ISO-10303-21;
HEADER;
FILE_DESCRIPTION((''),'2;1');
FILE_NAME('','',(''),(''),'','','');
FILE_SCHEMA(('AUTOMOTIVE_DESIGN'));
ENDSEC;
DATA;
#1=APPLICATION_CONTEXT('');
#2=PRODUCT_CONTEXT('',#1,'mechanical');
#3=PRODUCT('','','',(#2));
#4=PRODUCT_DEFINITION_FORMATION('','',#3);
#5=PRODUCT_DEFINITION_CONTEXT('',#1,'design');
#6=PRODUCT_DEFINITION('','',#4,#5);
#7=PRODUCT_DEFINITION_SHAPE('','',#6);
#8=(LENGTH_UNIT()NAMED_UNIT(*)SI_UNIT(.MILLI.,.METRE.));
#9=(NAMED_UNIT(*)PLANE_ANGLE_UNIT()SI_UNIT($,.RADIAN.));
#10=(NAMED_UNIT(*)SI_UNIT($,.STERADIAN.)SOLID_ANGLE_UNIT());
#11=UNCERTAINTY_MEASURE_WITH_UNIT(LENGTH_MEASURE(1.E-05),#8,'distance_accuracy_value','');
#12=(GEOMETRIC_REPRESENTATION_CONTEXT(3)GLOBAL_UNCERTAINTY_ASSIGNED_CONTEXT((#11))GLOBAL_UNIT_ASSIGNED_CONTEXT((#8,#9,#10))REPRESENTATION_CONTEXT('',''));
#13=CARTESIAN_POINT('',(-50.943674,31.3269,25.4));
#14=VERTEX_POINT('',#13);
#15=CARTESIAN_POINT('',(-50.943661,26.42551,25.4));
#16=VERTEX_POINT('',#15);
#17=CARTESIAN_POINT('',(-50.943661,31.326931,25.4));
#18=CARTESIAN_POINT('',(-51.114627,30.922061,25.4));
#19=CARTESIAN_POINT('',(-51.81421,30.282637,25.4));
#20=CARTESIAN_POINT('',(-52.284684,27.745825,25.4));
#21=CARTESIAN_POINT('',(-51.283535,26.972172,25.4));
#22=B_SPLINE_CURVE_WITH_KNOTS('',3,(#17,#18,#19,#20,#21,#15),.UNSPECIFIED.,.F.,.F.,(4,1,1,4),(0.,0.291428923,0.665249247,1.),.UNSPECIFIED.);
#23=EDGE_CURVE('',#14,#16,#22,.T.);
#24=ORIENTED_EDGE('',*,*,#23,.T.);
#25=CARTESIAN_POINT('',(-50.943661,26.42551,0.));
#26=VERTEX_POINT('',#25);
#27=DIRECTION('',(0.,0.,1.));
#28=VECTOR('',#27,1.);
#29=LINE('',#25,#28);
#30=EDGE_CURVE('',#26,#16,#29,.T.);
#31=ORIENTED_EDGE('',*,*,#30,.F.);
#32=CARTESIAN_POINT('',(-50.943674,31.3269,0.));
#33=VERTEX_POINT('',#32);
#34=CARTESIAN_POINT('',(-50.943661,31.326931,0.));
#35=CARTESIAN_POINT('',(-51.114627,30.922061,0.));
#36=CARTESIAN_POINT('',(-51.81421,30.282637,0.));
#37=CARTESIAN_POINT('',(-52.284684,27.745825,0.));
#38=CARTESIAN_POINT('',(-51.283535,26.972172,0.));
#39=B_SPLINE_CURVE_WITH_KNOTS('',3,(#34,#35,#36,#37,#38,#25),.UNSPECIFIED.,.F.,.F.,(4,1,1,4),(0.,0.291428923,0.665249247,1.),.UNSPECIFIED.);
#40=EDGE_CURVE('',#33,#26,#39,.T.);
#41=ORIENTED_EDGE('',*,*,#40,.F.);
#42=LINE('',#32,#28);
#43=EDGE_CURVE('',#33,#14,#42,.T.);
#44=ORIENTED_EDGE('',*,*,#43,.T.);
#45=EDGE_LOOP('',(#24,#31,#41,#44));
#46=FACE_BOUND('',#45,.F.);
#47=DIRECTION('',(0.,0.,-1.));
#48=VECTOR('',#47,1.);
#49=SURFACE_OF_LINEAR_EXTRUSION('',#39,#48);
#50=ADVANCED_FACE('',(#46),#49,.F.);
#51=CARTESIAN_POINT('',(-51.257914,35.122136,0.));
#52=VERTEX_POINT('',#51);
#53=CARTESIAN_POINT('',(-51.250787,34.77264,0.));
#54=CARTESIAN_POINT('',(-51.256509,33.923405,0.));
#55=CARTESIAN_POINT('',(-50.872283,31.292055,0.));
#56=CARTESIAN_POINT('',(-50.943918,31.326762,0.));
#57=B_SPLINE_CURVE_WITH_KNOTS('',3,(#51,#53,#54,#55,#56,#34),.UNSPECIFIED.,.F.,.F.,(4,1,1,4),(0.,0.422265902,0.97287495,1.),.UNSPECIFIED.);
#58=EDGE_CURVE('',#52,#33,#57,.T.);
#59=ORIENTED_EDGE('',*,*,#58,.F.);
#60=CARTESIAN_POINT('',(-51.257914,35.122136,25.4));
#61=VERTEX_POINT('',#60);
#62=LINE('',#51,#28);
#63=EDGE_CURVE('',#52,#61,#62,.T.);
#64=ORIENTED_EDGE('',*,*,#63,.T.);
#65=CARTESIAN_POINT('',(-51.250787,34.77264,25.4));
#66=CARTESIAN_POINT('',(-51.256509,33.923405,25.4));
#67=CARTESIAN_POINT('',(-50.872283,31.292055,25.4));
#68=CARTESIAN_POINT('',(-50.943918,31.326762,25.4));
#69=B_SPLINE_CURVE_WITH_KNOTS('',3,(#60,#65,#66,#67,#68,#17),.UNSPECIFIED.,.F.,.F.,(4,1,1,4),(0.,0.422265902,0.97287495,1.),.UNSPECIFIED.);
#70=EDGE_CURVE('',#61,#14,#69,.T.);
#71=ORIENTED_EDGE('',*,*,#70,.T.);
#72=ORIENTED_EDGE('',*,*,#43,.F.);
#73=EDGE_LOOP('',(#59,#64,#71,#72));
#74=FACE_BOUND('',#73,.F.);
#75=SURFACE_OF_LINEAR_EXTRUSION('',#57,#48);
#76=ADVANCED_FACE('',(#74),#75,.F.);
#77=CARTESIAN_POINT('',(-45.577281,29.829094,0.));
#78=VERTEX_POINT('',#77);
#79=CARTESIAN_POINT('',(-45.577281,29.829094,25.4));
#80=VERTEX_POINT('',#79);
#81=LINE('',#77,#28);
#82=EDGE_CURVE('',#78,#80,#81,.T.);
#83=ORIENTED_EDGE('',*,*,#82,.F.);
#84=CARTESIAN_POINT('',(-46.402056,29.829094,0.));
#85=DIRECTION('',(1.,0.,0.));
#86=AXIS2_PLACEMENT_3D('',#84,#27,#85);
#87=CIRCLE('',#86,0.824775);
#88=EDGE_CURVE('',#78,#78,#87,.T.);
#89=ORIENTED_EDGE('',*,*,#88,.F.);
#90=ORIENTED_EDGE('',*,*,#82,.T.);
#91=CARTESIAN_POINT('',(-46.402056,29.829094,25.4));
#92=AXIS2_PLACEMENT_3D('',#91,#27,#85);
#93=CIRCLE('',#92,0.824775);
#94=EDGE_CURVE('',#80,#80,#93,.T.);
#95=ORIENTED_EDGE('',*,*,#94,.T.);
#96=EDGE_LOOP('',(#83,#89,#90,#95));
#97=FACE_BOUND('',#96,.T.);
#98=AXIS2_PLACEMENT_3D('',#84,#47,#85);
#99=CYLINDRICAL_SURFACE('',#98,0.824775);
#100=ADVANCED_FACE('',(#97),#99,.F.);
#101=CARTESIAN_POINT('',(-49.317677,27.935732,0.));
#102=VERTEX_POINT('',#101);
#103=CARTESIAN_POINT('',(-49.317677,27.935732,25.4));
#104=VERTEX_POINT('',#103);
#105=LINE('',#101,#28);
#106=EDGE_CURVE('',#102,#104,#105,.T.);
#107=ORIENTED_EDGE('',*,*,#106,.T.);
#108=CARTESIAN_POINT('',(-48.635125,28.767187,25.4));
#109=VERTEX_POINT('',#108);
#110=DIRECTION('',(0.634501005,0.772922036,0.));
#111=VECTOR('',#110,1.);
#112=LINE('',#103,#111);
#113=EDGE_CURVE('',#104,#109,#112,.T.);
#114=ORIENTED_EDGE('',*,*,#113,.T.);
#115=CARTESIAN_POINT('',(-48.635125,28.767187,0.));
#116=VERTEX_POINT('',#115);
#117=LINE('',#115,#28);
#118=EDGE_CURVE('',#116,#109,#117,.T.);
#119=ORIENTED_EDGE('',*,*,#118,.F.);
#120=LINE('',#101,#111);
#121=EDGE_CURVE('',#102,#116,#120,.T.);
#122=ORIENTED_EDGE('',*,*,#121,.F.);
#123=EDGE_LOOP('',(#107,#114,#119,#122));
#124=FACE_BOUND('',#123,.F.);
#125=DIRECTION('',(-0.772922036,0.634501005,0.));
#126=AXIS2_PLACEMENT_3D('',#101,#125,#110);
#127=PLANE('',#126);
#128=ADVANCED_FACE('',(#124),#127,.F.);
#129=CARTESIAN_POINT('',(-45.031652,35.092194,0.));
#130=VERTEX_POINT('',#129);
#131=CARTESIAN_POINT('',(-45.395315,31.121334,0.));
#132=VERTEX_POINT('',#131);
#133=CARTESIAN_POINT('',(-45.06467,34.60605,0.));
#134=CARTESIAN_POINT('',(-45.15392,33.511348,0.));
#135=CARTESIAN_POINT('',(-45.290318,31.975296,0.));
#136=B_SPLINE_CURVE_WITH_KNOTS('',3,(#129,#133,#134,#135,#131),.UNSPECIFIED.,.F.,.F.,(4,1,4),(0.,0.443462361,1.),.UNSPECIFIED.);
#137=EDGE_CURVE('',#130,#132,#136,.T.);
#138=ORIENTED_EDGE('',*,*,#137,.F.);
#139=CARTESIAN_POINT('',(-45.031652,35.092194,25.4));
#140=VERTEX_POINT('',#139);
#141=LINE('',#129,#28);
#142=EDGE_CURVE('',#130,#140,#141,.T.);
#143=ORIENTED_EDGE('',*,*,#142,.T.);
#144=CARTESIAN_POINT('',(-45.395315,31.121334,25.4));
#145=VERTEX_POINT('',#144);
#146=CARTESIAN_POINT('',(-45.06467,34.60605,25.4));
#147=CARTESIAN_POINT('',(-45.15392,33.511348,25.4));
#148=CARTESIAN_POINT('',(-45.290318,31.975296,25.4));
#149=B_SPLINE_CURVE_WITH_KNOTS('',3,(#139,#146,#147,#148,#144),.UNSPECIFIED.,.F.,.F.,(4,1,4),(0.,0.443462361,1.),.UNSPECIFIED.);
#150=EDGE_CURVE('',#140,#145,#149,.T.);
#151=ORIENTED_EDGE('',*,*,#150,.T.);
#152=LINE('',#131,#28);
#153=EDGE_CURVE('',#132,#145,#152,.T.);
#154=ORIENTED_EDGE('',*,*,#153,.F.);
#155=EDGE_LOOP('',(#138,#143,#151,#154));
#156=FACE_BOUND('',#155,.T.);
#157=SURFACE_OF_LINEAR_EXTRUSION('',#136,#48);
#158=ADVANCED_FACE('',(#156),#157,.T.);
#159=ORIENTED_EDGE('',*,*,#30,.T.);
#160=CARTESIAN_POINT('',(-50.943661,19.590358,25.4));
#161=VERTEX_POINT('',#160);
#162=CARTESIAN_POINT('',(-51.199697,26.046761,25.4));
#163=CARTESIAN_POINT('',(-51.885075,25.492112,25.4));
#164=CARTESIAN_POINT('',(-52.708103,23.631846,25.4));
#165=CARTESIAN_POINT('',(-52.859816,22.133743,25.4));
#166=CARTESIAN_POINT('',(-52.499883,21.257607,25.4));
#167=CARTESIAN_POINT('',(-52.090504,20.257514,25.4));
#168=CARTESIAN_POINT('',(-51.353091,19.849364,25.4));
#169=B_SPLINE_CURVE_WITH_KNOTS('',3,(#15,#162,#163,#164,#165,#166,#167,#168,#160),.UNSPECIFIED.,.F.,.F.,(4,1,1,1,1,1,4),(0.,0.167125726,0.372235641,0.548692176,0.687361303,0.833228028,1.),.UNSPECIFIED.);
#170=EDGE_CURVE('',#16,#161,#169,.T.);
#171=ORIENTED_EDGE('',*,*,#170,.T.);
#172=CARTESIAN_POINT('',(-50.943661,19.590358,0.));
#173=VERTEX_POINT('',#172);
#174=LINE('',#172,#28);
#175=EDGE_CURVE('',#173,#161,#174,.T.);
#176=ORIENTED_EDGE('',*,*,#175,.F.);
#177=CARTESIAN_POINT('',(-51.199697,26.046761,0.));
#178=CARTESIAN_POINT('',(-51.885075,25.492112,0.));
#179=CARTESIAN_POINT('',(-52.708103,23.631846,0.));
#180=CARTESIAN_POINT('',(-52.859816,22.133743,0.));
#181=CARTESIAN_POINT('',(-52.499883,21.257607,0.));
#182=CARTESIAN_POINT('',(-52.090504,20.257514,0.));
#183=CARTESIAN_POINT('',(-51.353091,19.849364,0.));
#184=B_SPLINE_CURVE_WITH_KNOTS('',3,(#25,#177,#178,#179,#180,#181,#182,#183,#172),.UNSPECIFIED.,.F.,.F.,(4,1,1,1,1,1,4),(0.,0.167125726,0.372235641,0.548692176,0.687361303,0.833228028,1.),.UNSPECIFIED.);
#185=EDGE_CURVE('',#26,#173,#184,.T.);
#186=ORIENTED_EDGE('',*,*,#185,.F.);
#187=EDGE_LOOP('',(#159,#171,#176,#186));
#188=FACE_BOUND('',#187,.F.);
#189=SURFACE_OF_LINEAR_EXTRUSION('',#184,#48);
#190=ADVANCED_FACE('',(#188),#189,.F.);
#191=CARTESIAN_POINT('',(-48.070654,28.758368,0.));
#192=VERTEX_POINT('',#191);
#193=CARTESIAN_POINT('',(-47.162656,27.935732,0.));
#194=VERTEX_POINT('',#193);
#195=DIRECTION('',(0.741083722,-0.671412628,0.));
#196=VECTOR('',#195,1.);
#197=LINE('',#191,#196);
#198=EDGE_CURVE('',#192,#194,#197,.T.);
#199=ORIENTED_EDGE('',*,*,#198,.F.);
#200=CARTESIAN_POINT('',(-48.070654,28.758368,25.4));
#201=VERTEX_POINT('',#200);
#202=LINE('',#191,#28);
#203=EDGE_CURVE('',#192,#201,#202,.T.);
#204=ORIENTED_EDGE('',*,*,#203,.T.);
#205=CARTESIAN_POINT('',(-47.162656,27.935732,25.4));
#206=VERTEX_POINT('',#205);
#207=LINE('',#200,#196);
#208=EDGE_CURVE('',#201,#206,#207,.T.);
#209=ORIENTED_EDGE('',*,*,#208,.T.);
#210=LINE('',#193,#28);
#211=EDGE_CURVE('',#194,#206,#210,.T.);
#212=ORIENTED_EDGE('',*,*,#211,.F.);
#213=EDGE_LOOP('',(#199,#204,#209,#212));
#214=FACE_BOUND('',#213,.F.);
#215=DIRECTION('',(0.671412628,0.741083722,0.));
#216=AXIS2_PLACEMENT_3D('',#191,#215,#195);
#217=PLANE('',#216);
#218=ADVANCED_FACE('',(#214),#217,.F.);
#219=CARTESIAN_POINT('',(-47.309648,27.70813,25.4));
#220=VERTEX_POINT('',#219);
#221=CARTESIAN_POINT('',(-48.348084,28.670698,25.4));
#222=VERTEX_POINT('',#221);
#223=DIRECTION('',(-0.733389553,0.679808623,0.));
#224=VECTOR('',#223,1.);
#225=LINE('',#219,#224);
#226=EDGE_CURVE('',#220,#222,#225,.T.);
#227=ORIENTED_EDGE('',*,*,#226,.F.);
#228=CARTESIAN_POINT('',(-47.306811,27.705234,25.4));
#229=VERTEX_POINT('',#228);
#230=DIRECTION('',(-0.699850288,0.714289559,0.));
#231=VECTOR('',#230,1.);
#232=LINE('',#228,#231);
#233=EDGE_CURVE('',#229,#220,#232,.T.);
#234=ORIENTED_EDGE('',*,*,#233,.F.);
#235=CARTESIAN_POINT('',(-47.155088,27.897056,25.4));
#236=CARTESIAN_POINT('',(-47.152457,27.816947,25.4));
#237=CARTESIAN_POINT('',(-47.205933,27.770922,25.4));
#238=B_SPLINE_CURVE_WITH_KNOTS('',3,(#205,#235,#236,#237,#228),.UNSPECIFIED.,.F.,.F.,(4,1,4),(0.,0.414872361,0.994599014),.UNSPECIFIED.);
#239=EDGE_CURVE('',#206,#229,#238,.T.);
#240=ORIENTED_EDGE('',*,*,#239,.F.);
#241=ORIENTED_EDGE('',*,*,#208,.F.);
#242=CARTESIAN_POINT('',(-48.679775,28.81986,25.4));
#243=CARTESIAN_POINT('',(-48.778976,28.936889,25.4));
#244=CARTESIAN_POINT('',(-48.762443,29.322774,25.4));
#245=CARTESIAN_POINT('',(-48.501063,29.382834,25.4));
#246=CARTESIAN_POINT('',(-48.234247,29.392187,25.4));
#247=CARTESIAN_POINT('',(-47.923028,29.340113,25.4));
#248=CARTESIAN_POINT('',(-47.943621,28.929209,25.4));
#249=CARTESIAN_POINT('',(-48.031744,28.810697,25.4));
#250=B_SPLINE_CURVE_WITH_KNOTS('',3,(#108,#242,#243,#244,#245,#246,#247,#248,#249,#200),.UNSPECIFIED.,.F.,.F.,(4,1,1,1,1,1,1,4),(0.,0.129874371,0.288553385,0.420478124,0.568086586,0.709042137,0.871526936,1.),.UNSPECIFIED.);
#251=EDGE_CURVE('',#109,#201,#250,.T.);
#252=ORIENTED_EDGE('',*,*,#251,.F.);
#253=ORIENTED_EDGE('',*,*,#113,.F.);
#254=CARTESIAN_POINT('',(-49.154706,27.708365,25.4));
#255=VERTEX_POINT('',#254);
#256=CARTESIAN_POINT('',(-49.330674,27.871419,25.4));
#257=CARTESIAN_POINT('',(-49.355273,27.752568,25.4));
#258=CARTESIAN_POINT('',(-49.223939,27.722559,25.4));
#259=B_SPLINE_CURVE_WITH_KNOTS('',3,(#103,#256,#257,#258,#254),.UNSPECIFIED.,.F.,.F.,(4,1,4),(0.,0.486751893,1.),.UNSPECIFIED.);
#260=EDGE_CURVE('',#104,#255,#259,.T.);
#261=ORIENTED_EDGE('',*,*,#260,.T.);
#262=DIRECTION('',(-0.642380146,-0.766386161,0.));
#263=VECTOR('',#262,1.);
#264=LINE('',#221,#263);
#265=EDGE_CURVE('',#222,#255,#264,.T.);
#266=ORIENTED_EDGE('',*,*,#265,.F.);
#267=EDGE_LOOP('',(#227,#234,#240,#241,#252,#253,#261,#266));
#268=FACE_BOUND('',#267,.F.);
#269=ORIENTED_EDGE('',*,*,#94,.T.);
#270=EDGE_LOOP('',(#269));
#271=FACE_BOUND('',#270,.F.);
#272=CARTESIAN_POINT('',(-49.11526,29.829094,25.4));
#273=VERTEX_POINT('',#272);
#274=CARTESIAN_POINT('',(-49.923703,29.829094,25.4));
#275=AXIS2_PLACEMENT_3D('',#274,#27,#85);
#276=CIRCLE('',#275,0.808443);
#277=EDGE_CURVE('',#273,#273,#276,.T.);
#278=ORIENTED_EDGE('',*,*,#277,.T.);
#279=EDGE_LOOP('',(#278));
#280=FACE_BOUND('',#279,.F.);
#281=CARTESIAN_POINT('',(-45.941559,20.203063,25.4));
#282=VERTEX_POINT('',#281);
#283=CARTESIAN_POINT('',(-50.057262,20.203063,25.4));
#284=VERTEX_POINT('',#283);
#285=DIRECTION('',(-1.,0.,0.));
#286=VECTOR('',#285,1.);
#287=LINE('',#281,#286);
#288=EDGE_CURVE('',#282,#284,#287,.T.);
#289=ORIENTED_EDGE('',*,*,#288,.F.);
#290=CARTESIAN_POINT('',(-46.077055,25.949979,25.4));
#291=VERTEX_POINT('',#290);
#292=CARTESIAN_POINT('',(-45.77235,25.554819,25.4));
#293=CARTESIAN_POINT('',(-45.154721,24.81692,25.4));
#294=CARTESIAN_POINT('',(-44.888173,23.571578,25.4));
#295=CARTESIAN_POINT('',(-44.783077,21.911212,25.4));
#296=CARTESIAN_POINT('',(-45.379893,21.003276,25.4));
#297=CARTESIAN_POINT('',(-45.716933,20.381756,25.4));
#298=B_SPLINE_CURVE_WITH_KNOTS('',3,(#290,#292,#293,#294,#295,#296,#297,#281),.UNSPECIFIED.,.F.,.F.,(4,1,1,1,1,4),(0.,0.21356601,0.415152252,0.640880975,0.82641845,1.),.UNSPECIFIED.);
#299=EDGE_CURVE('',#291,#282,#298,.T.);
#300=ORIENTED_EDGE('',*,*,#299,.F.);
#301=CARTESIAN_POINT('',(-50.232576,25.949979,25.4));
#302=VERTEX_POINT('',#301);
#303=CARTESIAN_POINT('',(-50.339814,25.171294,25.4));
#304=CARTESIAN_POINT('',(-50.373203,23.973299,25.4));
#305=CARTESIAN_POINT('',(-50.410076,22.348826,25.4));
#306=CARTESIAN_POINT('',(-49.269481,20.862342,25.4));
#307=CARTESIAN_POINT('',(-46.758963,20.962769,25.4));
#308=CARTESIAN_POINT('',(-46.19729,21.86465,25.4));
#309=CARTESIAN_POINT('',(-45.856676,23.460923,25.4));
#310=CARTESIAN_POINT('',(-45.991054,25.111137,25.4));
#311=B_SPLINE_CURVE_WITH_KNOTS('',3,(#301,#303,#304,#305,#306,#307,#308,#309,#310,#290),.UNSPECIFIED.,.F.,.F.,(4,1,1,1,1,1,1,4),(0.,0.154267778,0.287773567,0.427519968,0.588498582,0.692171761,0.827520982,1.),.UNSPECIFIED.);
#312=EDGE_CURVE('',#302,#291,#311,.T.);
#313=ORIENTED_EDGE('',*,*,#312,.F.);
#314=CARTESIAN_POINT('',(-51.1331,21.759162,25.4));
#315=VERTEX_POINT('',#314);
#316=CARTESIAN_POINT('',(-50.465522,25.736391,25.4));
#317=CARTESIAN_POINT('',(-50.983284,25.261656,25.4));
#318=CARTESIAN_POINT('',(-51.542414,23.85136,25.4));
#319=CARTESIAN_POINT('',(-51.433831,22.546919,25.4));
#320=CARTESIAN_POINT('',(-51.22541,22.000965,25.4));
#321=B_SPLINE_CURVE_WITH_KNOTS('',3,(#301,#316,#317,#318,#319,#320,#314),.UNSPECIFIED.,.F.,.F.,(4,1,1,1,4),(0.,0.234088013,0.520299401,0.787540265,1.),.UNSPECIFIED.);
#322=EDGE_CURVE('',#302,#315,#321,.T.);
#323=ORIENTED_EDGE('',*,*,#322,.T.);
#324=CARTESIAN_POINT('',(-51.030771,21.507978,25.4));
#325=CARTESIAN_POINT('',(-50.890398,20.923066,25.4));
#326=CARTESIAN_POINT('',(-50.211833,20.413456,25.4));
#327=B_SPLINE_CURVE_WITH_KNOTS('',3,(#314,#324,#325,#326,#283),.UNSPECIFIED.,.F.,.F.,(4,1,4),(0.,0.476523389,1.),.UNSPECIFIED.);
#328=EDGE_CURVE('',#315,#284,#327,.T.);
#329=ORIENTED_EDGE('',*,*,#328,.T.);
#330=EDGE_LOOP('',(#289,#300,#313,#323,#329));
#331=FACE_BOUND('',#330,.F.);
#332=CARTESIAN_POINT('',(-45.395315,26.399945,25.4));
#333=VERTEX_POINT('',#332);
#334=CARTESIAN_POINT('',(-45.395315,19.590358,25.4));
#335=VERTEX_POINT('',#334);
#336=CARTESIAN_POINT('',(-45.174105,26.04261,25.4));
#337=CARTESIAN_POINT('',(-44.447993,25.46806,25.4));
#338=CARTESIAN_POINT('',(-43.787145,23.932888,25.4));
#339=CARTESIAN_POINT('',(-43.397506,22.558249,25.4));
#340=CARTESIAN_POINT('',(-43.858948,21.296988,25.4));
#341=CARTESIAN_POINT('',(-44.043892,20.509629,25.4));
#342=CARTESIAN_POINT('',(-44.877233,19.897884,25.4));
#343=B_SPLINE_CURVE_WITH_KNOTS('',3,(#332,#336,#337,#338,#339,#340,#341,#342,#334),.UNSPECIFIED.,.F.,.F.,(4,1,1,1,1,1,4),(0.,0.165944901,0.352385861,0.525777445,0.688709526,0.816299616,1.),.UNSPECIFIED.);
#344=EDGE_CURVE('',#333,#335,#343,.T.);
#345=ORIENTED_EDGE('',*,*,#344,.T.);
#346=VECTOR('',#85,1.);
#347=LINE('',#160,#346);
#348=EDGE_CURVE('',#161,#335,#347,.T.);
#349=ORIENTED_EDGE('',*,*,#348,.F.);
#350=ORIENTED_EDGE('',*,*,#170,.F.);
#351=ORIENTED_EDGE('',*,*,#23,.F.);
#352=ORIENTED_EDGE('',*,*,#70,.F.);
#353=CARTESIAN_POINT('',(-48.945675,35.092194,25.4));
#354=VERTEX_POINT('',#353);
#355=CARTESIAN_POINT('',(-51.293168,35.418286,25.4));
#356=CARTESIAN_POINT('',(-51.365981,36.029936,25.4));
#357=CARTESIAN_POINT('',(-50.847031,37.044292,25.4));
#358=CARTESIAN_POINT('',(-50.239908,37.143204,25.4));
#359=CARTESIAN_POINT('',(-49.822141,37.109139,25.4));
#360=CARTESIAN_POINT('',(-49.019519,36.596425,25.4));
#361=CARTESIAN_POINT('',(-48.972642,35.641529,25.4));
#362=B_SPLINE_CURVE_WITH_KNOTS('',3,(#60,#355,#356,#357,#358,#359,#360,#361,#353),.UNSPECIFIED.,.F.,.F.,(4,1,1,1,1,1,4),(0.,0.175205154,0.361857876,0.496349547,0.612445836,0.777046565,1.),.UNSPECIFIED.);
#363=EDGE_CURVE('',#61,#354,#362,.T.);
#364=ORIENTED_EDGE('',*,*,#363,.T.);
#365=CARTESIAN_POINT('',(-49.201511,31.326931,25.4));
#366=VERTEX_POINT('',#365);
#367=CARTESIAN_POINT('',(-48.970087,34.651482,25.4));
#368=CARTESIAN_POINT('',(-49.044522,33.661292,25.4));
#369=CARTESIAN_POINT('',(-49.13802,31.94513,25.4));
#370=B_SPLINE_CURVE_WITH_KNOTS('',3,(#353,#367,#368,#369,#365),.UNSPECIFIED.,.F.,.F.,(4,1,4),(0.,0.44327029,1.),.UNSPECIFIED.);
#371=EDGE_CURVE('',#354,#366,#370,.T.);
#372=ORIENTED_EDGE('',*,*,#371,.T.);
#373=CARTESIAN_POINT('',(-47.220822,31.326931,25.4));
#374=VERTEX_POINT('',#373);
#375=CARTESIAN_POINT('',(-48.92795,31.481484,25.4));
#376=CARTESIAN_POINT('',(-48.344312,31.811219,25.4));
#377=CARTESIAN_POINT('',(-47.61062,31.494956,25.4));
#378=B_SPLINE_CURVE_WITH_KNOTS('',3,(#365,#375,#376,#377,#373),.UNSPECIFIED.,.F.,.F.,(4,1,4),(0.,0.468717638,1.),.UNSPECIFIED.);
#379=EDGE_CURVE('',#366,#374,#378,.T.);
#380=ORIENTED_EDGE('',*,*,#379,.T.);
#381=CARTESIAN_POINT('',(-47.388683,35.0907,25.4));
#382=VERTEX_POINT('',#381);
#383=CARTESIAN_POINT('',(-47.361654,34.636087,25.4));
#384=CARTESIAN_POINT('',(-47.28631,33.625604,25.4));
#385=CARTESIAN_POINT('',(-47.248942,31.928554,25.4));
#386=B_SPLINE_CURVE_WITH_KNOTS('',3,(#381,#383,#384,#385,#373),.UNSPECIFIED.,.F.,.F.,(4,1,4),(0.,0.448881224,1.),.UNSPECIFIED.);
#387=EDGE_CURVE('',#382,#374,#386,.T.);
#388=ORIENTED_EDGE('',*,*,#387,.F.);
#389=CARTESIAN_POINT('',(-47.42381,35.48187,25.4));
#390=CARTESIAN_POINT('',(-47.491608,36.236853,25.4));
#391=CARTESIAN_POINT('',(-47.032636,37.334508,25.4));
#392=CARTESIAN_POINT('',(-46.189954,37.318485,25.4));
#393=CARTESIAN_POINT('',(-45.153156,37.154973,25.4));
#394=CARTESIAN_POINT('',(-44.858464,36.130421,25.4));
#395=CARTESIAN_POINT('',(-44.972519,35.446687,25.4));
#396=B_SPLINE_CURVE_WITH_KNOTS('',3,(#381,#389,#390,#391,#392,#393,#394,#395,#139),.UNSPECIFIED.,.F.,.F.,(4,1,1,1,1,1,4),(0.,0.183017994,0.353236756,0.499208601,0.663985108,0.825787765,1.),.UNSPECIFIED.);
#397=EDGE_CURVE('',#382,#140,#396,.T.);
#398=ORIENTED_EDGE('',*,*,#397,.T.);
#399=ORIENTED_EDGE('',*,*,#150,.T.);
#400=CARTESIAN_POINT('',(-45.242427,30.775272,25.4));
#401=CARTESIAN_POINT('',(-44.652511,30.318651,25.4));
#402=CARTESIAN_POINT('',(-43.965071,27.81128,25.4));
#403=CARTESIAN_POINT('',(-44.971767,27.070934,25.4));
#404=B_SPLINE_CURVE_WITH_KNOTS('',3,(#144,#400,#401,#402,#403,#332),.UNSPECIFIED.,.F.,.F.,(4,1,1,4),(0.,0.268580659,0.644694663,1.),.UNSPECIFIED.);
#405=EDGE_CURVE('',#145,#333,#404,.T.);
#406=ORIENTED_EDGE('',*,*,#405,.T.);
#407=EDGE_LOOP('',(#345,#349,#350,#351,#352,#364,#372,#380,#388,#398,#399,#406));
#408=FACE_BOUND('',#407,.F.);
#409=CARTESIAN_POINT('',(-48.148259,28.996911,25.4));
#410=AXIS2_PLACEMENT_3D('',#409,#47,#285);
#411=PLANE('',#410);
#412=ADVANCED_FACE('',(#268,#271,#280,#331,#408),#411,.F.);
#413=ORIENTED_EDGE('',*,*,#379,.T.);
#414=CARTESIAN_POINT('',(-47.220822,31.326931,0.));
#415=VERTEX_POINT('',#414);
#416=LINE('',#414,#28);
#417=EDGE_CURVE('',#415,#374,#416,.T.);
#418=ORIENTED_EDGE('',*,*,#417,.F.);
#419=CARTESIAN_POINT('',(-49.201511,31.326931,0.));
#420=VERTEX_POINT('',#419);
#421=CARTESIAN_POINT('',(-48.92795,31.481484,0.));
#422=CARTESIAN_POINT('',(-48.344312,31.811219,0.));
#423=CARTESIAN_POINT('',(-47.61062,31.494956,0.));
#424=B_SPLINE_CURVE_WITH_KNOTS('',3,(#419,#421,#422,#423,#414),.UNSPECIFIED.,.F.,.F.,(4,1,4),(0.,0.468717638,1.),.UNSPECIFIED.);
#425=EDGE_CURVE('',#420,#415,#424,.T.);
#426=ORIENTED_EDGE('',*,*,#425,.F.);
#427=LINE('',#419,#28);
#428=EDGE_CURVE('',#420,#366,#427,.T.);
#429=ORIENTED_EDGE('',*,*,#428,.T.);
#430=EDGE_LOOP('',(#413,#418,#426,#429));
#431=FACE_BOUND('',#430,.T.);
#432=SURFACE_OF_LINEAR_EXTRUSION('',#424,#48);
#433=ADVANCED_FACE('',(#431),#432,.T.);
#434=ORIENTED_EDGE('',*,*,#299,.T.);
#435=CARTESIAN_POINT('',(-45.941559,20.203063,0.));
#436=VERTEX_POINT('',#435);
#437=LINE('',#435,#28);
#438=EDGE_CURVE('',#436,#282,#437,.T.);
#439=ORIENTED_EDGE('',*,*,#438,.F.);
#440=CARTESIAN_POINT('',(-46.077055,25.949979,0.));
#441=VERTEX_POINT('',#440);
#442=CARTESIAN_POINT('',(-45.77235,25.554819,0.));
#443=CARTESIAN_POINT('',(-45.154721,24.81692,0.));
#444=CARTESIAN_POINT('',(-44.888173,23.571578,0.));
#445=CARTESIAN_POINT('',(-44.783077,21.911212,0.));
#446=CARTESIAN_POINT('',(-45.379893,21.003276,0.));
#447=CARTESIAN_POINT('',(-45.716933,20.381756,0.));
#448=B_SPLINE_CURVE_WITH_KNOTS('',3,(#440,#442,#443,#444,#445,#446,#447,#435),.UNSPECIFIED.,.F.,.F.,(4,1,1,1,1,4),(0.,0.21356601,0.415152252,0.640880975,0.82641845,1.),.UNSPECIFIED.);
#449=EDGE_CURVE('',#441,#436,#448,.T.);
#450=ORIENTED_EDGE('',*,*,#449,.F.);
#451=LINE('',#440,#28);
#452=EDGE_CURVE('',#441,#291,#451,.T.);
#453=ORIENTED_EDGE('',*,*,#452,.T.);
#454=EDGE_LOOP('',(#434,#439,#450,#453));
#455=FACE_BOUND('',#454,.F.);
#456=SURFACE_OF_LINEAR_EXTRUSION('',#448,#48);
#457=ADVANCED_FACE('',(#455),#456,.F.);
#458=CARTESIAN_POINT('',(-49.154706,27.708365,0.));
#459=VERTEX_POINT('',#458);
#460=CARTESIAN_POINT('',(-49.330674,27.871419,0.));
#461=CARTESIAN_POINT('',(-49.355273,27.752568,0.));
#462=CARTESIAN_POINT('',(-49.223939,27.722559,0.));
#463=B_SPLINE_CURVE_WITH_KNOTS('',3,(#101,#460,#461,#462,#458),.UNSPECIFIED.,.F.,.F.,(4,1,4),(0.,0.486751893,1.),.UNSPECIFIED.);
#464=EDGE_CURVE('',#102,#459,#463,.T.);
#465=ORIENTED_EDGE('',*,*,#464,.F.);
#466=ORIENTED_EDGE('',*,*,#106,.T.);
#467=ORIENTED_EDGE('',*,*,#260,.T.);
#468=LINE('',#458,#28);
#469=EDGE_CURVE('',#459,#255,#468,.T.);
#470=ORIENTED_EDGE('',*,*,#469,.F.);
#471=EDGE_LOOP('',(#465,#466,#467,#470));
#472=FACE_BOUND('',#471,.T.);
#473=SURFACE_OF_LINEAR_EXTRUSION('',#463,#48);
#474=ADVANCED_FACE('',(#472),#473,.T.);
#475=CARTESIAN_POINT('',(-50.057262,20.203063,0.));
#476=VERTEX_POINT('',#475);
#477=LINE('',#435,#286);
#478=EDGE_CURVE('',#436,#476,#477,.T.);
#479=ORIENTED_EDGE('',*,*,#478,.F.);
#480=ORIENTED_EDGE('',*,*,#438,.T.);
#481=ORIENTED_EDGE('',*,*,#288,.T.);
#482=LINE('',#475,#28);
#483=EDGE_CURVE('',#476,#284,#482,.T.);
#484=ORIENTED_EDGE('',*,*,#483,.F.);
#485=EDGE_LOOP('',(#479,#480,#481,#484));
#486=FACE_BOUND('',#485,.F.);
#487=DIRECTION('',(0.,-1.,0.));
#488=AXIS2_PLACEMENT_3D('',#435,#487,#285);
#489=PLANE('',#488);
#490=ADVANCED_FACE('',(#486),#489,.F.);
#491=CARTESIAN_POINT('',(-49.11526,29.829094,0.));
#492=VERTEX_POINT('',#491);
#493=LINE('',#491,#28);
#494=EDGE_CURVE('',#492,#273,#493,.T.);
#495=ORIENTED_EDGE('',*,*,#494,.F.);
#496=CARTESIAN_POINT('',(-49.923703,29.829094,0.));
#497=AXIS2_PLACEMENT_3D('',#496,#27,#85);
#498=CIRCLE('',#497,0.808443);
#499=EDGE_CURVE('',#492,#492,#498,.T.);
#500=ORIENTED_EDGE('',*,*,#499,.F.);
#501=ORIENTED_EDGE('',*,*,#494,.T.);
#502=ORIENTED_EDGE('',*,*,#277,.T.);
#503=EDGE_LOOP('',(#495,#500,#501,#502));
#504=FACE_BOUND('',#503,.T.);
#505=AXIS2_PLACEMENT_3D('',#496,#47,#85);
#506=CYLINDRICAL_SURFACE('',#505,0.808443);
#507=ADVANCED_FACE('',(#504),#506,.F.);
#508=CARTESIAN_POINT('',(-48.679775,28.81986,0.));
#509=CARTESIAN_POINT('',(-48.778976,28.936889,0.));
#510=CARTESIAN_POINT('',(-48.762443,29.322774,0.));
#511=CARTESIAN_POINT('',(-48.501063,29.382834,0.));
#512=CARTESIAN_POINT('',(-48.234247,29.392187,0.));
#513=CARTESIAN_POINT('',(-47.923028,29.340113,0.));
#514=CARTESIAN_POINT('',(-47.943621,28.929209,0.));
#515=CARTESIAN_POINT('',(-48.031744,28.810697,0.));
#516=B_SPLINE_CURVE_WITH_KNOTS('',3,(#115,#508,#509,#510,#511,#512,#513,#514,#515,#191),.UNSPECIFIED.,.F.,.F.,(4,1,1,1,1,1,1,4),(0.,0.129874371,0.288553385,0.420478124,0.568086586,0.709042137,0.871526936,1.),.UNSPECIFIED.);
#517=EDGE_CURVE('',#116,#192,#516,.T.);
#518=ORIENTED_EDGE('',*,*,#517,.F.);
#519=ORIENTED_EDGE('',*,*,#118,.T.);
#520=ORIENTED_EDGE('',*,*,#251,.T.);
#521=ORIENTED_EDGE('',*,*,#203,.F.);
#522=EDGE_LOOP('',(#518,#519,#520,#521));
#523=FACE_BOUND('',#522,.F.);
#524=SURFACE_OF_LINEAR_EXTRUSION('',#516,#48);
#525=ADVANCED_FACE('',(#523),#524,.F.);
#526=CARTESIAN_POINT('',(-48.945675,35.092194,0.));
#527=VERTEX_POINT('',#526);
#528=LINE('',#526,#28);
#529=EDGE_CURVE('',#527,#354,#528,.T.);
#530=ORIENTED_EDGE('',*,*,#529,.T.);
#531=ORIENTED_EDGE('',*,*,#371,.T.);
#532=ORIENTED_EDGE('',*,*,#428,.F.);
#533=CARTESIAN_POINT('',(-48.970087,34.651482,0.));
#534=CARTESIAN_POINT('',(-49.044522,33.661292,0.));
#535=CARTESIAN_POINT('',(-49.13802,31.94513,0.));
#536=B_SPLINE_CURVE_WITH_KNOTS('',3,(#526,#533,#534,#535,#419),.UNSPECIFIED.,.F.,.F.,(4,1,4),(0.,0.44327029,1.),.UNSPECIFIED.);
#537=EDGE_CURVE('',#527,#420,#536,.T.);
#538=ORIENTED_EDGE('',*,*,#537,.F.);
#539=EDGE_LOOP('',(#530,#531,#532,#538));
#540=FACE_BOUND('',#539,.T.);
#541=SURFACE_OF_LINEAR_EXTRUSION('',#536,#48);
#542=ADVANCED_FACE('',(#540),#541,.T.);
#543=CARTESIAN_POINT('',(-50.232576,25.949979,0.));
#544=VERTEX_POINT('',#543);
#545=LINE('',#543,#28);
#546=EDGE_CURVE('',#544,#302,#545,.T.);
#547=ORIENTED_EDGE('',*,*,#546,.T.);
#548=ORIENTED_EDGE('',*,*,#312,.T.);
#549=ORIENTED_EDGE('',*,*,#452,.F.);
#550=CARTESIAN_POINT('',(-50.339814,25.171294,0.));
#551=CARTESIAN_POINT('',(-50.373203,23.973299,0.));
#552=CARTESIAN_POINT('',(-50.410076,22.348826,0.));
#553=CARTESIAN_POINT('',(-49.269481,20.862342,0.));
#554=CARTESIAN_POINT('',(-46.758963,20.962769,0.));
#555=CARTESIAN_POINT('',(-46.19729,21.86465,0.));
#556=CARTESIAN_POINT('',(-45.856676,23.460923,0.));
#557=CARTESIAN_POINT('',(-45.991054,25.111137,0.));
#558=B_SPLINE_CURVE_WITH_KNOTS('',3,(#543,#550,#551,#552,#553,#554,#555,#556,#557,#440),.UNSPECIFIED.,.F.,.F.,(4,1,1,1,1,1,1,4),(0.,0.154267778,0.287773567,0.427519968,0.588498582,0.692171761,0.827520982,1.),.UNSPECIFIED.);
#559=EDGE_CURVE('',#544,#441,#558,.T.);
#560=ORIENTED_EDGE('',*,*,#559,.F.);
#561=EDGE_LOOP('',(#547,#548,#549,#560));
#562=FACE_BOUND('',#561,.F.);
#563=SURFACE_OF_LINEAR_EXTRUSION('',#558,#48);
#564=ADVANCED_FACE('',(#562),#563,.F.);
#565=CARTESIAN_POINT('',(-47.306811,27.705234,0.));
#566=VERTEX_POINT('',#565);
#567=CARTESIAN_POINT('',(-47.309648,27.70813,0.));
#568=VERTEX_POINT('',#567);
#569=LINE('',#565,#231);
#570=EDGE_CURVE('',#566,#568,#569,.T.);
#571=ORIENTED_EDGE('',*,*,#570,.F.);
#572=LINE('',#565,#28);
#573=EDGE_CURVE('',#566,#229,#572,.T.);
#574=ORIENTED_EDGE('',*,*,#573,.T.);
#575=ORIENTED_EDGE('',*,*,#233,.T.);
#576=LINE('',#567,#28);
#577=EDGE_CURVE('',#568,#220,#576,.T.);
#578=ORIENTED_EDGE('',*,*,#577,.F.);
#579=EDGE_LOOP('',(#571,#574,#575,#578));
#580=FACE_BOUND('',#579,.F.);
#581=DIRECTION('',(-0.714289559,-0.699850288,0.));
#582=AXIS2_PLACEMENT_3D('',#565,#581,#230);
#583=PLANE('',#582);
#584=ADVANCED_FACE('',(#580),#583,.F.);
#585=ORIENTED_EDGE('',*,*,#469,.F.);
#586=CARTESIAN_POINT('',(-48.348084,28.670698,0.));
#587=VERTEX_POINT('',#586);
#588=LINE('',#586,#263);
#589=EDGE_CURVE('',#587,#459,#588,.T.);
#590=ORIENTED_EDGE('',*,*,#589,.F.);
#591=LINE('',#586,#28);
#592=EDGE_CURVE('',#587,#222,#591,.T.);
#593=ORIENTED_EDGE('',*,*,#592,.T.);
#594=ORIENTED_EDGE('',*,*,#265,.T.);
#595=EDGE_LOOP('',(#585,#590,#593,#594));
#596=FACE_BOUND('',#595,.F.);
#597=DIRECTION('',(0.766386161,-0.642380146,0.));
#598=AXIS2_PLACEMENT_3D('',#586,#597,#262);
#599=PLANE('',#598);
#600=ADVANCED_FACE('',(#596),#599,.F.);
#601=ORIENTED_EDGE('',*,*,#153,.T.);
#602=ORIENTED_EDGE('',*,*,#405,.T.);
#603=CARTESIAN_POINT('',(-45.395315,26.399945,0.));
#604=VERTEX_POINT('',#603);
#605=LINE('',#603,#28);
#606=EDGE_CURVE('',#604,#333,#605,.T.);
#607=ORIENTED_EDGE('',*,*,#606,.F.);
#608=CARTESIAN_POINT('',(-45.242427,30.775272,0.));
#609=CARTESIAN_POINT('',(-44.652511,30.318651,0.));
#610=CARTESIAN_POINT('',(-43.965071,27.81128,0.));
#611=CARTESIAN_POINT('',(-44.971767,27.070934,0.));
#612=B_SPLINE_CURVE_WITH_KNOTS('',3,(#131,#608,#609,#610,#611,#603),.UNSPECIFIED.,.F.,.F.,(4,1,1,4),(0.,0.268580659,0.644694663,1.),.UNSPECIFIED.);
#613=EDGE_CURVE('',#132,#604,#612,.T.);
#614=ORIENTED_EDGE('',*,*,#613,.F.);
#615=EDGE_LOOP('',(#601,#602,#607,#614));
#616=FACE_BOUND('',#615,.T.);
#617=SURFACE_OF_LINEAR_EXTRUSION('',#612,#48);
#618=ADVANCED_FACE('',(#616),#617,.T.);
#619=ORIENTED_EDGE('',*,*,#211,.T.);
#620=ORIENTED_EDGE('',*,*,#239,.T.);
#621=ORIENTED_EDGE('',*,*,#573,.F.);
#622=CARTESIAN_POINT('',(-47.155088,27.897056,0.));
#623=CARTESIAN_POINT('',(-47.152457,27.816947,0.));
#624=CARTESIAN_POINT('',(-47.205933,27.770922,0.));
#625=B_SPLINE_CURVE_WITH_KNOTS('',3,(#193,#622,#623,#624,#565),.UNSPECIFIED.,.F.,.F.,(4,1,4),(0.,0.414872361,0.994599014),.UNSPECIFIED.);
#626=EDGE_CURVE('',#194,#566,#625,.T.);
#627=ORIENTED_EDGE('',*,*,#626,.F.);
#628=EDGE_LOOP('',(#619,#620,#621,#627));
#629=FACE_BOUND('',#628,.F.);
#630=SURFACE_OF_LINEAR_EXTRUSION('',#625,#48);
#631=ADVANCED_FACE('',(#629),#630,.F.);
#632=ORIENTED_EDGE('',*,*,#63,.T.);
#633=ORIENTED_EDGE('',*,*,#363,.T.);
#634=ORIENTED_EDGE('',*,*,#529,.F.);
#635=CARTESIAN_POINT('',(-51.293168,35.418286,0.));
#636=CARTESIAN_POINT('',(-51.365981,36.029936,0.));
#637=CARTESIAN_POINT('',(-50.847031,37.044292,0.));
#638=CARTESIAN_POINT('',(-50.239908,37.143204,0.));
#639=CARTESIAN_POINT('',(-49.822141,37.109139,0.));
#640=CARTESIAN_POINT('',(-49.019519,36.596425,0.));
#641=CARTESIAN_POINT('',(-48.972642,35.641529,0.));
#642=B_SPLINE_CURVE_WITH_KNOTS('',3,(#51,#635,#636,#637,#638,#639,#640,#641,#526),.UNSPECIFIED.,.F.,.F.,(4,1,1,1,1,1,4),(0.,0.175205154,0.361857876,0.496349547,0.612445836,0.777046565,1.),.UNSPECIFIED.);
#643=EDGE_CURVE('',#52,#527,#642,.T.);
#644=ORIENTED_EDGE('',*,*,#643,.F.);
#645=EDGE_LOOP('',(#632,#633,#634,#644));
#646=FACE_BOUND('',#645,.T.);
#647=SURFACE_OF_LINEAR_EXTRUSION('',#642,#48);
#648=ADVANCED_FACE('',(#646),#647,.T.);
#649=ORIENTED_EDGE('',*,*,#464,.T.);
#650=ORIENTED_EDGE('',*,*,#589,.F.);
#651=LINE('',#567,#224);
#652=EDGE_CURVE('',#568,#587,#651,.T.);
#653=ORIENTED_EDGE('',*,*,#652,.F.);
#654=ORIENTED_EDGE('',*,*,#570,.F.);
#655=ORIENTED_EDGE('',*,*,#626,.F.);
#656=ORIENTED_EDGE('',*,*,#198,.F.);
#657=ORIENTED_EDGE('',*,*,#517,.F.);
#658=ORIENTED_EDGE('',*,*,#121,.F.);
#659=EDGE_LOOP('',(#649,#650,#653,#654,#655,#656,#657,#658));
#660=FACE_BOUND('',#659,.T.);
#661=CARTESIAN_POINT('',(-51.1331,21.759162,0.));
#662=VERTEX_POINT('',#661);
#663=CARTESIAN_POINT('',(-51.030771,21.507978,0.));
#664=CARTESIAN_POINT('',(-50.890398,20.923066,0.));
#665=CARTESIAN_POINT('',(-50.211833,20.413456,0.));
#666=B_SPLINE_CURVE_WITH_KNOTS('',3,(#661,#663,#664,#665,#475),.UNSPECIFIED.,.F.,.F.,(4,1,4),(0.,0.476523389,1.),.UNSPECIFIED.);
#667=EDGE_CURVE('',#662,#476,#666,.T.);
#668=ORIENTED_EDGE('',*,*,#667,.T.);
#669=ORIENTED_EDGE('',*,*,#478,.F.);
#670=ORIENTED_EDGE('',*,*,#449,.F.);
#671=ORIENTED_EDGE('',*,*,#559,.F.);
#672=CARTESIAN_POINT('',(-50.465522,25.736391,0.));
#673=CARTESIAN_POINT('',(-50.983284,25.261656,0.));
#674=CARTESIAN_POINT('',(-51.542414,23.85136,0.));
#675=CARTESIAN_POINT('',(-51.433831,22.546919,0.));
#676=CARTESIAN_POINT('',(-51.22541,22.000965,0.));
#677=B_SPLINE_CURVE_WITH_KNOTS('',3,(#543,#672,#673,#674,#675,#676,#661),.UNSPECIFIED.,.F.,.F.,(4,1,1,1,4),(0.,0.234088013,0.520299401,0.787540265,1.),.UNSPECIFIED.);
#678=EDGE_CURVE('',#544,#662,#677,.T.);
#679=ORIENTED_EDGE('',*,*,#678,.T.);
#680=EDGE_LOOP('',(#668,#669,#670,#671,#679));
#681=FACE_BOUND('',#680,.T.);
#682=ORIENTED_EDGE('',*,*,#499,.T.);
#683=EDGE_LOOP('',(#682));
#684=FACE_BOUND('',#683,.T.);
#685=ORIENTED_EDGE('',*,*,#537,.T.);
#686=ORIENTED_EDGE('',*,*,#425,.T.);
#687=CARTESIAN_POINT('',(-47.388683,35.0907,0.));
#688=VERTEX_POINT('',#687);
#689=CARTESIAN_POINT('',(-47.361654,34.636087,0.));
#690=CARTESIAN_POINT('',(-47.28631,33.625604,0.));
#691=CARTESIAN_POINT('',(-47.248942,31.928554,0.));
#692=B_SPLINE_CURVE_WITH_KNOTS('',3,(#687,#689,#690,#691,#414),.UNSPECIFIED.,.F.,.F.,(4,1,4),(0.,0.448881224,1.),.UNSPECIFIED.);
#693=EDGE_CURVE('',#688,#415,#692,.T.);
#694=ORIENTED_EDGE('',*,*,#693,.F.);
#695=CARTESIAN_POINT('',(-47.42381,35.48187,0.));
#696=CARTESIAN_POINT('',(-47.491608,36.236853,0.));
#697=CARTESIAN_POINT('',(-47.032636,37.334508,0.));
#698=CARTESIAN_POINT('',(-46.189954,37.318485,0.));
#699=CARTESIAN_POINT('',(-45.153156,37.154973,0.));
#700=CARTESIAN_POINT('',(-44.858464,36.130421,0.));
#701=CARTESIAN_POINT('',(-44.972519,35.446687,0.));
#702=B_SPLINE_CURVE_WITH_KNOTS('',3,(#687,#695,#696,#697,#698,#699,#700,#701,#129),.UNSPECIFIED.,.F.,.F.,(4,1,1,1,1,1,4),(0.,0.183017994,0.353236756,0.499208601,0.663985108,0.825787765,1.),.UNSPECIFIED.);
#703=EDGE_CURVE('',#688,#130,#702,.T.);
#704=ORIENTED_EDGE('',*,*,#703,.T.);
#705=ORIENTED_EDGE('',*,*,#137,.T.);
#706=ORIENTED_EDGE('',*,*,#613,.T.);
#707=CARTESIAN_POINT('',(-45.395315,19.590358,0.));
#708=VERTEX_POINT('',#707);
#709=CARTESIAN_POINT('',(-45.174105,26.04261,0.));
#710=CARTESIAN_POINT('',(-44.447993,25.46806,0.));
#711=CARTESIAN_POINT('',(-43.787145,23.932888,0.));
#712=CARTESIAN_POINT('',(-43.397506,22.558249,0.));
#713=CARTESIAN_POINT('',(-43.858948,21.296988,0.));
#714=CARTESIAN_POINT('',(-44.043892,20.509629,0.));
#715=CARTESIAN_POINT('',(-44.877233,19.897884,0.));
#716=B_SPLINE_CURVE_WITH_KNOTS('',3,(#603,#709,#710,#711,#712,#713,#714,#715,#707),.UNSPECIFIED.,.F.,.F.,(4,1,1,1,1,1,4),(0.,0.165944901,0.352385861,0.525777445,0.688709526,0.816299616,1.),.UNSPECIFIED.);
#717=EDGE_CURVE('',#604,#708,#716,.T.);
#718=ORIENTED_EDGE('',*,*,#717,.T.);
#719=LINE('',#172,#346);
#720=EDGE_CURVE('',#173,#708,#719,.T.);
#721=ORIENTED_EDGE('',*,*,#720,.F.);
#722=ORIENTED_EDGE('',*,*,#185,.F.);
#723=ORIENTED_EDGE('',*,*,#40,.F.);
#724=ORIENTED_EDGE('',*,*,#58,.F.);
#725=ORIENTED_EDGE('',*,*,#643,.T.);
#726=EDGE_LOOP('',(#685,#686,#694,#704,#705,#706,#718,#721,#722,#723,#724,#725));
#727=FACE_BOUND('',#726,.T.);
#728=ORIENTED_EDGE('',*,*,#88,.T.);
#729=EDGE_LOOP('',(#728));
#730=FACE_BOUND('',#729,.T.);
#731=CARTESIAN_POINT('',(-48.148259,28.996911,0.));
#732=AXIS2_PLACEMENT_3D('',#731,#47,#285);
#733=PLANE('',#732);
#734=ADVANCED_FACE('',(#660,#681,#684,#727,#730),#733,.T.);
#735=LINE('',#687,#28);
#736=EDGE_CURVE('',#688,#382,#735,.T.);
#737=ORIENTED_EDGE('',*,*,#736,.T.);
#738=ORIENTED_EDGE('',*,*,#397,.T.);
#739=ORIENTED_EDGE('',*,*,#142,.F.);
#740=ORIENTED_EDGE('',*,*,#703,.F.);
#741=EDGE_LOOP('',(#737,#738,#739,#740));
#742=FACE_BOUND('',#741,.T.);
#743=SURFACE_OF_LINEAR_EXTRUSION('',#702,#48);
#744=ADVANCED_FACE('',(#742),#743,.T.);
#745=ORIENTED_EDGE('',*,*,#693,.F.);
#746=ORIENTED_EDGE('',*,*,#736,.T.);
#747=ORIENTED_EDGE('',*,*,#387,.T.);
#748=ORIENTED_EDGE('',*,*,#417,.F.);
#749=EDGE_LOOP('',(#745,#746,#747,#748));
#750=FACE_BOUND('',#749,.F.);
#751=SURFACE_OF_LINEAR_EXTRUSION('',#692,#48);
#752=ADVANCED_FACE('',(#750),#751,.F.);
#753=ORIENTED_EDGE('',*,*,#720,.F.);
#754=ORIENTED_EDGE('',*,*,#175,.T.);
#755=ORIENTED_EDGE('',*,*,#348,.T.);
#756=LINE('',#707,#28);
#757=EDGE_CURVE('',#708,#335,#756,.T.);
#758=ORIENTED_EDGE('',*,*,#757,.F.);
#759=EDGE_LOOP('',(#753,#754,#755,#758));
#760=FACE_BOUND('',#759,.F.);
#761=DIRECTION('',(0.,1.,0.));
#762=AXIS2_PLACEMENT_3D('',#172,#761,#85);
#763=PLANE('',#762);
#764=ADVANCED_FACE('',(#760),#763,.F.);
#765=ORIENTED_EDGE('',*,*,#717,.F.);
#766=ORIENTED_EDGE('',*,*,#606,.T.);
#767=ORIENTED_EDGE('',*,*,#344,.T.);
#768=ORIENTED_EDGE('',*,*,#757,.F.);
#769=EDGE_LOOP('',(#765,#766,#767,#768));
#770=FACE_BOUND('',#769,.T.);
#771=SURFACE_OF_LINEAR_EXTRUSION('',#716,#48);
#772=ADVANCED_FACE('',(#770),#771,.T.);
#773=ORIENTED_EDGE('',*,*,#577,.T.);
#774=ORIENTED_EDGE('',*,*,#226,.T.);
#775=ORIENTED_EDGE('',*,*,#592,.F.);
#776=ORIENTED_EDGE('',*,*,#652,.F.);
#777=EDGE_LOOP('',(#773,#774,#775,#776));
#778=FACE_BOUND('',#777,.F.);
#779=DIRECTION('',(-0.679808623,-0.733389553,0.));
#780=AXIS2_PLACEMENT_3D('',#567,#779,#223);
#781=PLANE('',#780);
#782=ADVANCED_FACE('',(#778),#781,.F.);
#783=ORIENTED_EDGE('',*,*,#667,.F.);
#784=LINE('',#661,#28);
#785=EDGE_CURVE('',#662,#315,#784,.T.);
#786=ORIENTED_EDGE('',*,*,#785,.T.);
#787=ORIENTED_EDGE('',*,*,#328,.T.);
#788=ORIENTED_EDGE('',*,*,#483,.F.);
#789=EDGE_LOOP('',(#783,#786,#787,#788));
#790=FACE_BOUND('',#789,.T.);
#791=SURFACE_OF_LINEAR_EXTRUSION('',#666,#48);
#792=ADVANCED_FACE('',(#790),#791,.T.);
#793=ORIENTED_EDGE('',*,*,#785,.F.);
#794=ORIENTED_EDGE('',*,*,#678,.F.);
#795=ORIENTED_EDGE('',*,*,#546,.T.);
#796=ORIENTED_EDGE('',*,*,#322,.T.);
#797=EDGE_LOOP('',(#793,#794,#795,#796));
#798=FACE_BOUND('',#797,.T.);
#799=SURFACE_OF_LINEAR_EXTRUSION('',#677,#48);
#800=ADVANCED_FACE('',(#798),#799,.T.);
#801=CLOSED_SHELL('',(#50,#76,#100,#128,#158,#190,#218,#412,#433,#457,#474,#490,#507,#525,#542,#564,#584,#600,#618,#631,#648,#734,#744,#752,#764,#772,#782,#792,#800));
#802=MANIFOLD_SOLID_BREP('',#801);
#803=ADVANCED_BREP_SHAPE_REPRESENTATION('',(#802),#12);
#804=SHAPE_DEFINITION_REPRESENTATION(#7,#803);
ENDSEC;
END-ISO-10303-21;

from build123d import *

# Parameters (mm, degrees)
F0_R     = 0.8084432303
F0_R_2   = 0.8247749211
F1_DEPTH = 25.4


with BuildPart() as f1:
    # F0 (on Top) → F1 (new body)
    with BuildSketch(Plane.XY):
        with BuildLine():
            add(Edge.make_bspline(
                [(-48.94567497, 35.0921936811), (-48.9700867354, 34.6514817439), (-49.0445215087, 33.6612920899), (-49.1380204425, 31.9451302817), (-49.2015108466, 31.32693097)],
                knots=[0, 0, 0, 0, 0.4432702902, 1, 1, 1, 1], degree=3))
            add(Edge.make_bspline(
                [(-51.2579139149, 35.1221363175), (-51.2931683694, 35.4182862409), (-51.3659807366, 36.0299359539), (-50.8470312547, 37.044292082), (-50.2399075251, 37.1432043473), (-49.8221412312, 37.109139219), (-49.0195194569, 36.5964248707), (-48.9726425, 35.6415292034), (-48.94567497, 35.0921936811)],
                knots=[0, 0, 0, 0, 0.175205154, 0.3618578756, 0.4963495466, 0.6124458357, 0.7770465649, 1, 1, 1, 1], degree=3))
            add(Edge.make_bspline(
                [(-51.2579139149, 35.1221363175), (-51.2507872102, 34.7726398197), (-51.2565094617, 33.9234045239), (-50.8722834695, 31.2920550281), (-50.9439182261, 31.326762404), (-50.9436607992, 31.32693097)],
                knots=[0, 0, 0, 0, 0.4222659021, 0.9728749505, 1, 1, 1, 1], degree=3))
            add(Edge.make_bspline(
                [(-50.9436607992, 31.32693097), (-51.1146265921, 30.9220613232), (-51.8142102568, 30.2826374897), (-52.2846835584, 27.7458247254), (-51.2835349885, 26.9721724102), (-50.9436607992, 26.4255098581)],
                knots=[0, 0, 0, 0, 0.2914289234, 0.6652492466, 1, 1, 1, 1], degree=3))
            add(Edge.make_bspline(
                [(-50.9436607992, 26.4255098581), (-51.1996972967, 26.0467610518), (-51.8850747703, 25.4921124492), (-52.7081030315, 23.631846396), (-52.8598157266, 22.1337429208), (-52.4998826865, 21.2576073625), (-52.0905042681, 20.2575138849), (-51.3530914343, 19.8493639769), (-50.9436607992, 19.5903577882)],
                knots=[0, 0, 0, 0, 0.1671257261, 0.3722356415, 0.5486921757, 0.6873613028, 0.8332280282, 1, 1, 1, 1], degree=3))
            Line((-50.9436607992, 19.5903577882), (-45.3953147399, 19.5903577882))
            add(Edge.make_bspline(
                [(-45.3953147399, 26.3999454593), (-45.1741050599, 26.0426096264), (-44.4479931313, 25.4680598635), (-43.7871447811, 23.9328877523), (-43.3975063279, 22.5582488181), (-43.8589479498, 21.2969881094), (-44.0438915248, 20.5096293748), (-44.8772331611, 19.8978844909), (-45.3953147399, 19.5903577882)],
                knots=[0, 0, 0, 0, 0.1659449014, 0.352385861, 0.525777445, 0.6887095262, 0.8162996163, 1, 1, 1, 1], degree=3))
            add(Edge.make_bspline(
                [(-45.3953147399, 31.121334061), (-45.2424266563, 30.7752722531), (-44.6525107064, 30.3186509417), (-43.9650710992, 27.8112796663), (-44.9717673022, 27.0709338765), (-45.3953147399, 26.3999454593)],
                knots=[0, 0, 0, 0, 0.2685806591, 0.6446946633, 1, 1, 1, 1], degree=3))
            add(Edge.make_bspline(
                [(-45.0316518959, 35.0921936811), (-45.0646700359, 34.6060497939), (-45.153919875, 33.5113484156), (-45.2903179516, 31.9752959606), (-45.3953147399, 31.121334061)],
                knots=[0, 0, 0, 0, 0.4434623611, 1, 1, 1, 1], degree=3))
            add(Edge.make_bspline(
                [(-47.388683101, 35.0906997458), (-47.4238103911, 35.481869622), (-47.4916083693, 36.2368531885), (-47.0326362531, 37.3345080859), (-46.1899536181, 37.3184853813), (-45.15315575, 37.1549733825), (-44.8584642447, 36.1304214593), (-44.9725186078, 35.4466867522), (-45.0316518959, 35.0921936811)],
                knots=[0, 0, 0, 0, 0.1830179944, 0.3532367559, 0.4992086007, 0.6639851076, 0.8257877655, 1, 1, 1, 1], degree=3))
            add(Edge.make_bspline(
                [(-47.388683101, 35.0906997458), (-47.3616542014, 34.6360873887), (-47.2863099601, 33.6256037177), (-47.2489418579, 31.9285535289), (-47.2208224237, 31.32693097)],
                knots=[0, 0, 0, 0, 0.4488812242, 1, 1, 1, 1], degree=3))
            add(Edge.make_bspline(
                [(-49.2015108466, 31.32693097), (-48.9279495231, 31.4814836465), (-48.3443117395, 31.8112187876), (-47.6106199372, 31.4949558764), (-47.2208224237, 31.32693097)],
                knots=[0, 0, 0, 0, 0.4687176382, 1, 1, 1, 1], degree=3))
        make_face()
        with BuildLine():
            add(Edge.make_bspline(
                [(-50.2325761491, 25.9499785513), (-50.4655224799, 25.7363906499), (-50.9832843028, 25.2616561443), (-51.5424136313, 23.8513598748), (-51.4338310399, 22.5469188106), (-51.2254098404, 22.0009650382), (-51.1330999434, 21.7591617256)],
                knots=[0, 0, 0, 0, 0.234088013, 0.5202994007, 0.7875402647, 1, 1, 1, 1], degree=3))
            add(Edge.make_bspline(
                [(-50.2325761491, 25.9499785513), (-50.3398137465, 25.1712935618), (-50.3732028785, 23.9732994738), (-50.4100756893, 22.3488263852), (-49.2694809275, 20.8623420605), (-46.7589633033, 20.9627692848), (-46.1972896816, 21.8646500375), (-45.856675959, 23.4609229409), (-45.9910535744, 25.1111372277), (-46.0770547515, 25.9499785513)],
                knots=[0, 0, 0, 0, 0.1542677783, 0.2877735667, 0.4275199683, 0.5884985822, 0.6921717614, 0.8275209821, 1, 1, 1, 1], degree=3))
            add(Edge.make_bspline(
                [(-46.0770547515, 25.9499785513), (-45.7723496777, 25.5548194214), (-45.1547210687, 24.8169202123), (-44.8881733959, 23.5715775854), (-44.7830767289, 21.9112118037), (-45.3798931708, 21.003275973), (-45.7169332064, 20.3817556941), (-45.9415591858, 20.2030632645)],
                knots=[0, 0, 0, 0, 0.21356601, 0.4151522518, 0.6408809747, 0.8264184505, 1, 1, 1, 1], degree=3))
            Line((-45.9415591858, 20.2030632645), (-50.0572621822, 20.2030632645))
            add(Edge.make_bspline(
                [(-51.1330999434, 21.7591617256), (-51.0307709021, 21.5079777824), (-50.8903979519, 20.923066465), (-50.2118328147, 20.4134555105), (-50.0572621822, 20.2030632645)],
                knots=[0, 0, 0, 0, 0.476523389, 1, 1, 1, 1], degree=3))
        make_face(mode=Mode.SUBTRACT)
        with Locations((-49.9237030745, 29.8290941864)):
            Circle(F0_R, mode=Mode.SUBTRACT)
        with BuildLine():
            Line((-49.317676574, 27.935732156), (-48.6351251602, 28.7671871483))
            add(Edge.make_bspline(
                [(-48.6351251602, 28.7671871483), (-48.679774631, 28.8198603186), (-48.7789763121, 28.9368889632), (-48.7624433674, 29.3227736993), (-48.5010634785, 29.3828339325), (-48.2342472207, 29.3921870931), (-47.9230275469, 29.3401126903), (-47.943621411, 28.929208535), (-48.031743692, 28.8106966839), (-48.070654273, 28.7583675236)],
                knots=[0, 0, 0, 0, 0.1298743709, 0.2885533852, 0.4204781245, 0.568086586, 0.7090421369, 0.8715269355, 1, 1, 1, 1], degree=3))
            Line((-48.070654273, 28.7583675236), (-47.162655741, 27.935732156))
            add(Edge.make_bspline(
                [(-47.162655741, 27.935732156), (-47.1550883883, 27.8970556482), (-47.1524573928, 27.8169465621), (-47.2059334559, 27.7709223357), (-47.306810607, 27.7052337727)],
                knots=[0, 0, 0, 0, 0.414872361, 0.9945990136, 0.9945990136, 0.9945990136, 0.9945990136], degree=3))
            Line((-47.306810607, 27.7052337727), (-47.3096482456, 27.7081299573))
            Line((-47.3096482456, 27.7081299573), (-48.3480840921, 28.6706984043))
            Line((-48.3480840921, 28.6706984043), (-49.1547062993, 27.7083646506))
            add(Edge.make_bspline(
                [(-49.317676574, 27.935732156), (-49.3306744995, 27.8714192357), (-49.355272896, 27.7525684037), (-49.2239393202, 27.722559416), (-49.1547062993, 27.7083646506)],
                knots=[0, 0, 0, 0, 0.4867518931, 1, 1, 1, 1], degree=3))
        make_face(mode=Mode.SUBTRACT)
        with Locations((-46.4020557702, 29.8290941864)):
            Circle(F0_R_2, mode=Mode.SUBTRACT)
    extrude(amount=F1_DEPTH)


solid = f1.part
